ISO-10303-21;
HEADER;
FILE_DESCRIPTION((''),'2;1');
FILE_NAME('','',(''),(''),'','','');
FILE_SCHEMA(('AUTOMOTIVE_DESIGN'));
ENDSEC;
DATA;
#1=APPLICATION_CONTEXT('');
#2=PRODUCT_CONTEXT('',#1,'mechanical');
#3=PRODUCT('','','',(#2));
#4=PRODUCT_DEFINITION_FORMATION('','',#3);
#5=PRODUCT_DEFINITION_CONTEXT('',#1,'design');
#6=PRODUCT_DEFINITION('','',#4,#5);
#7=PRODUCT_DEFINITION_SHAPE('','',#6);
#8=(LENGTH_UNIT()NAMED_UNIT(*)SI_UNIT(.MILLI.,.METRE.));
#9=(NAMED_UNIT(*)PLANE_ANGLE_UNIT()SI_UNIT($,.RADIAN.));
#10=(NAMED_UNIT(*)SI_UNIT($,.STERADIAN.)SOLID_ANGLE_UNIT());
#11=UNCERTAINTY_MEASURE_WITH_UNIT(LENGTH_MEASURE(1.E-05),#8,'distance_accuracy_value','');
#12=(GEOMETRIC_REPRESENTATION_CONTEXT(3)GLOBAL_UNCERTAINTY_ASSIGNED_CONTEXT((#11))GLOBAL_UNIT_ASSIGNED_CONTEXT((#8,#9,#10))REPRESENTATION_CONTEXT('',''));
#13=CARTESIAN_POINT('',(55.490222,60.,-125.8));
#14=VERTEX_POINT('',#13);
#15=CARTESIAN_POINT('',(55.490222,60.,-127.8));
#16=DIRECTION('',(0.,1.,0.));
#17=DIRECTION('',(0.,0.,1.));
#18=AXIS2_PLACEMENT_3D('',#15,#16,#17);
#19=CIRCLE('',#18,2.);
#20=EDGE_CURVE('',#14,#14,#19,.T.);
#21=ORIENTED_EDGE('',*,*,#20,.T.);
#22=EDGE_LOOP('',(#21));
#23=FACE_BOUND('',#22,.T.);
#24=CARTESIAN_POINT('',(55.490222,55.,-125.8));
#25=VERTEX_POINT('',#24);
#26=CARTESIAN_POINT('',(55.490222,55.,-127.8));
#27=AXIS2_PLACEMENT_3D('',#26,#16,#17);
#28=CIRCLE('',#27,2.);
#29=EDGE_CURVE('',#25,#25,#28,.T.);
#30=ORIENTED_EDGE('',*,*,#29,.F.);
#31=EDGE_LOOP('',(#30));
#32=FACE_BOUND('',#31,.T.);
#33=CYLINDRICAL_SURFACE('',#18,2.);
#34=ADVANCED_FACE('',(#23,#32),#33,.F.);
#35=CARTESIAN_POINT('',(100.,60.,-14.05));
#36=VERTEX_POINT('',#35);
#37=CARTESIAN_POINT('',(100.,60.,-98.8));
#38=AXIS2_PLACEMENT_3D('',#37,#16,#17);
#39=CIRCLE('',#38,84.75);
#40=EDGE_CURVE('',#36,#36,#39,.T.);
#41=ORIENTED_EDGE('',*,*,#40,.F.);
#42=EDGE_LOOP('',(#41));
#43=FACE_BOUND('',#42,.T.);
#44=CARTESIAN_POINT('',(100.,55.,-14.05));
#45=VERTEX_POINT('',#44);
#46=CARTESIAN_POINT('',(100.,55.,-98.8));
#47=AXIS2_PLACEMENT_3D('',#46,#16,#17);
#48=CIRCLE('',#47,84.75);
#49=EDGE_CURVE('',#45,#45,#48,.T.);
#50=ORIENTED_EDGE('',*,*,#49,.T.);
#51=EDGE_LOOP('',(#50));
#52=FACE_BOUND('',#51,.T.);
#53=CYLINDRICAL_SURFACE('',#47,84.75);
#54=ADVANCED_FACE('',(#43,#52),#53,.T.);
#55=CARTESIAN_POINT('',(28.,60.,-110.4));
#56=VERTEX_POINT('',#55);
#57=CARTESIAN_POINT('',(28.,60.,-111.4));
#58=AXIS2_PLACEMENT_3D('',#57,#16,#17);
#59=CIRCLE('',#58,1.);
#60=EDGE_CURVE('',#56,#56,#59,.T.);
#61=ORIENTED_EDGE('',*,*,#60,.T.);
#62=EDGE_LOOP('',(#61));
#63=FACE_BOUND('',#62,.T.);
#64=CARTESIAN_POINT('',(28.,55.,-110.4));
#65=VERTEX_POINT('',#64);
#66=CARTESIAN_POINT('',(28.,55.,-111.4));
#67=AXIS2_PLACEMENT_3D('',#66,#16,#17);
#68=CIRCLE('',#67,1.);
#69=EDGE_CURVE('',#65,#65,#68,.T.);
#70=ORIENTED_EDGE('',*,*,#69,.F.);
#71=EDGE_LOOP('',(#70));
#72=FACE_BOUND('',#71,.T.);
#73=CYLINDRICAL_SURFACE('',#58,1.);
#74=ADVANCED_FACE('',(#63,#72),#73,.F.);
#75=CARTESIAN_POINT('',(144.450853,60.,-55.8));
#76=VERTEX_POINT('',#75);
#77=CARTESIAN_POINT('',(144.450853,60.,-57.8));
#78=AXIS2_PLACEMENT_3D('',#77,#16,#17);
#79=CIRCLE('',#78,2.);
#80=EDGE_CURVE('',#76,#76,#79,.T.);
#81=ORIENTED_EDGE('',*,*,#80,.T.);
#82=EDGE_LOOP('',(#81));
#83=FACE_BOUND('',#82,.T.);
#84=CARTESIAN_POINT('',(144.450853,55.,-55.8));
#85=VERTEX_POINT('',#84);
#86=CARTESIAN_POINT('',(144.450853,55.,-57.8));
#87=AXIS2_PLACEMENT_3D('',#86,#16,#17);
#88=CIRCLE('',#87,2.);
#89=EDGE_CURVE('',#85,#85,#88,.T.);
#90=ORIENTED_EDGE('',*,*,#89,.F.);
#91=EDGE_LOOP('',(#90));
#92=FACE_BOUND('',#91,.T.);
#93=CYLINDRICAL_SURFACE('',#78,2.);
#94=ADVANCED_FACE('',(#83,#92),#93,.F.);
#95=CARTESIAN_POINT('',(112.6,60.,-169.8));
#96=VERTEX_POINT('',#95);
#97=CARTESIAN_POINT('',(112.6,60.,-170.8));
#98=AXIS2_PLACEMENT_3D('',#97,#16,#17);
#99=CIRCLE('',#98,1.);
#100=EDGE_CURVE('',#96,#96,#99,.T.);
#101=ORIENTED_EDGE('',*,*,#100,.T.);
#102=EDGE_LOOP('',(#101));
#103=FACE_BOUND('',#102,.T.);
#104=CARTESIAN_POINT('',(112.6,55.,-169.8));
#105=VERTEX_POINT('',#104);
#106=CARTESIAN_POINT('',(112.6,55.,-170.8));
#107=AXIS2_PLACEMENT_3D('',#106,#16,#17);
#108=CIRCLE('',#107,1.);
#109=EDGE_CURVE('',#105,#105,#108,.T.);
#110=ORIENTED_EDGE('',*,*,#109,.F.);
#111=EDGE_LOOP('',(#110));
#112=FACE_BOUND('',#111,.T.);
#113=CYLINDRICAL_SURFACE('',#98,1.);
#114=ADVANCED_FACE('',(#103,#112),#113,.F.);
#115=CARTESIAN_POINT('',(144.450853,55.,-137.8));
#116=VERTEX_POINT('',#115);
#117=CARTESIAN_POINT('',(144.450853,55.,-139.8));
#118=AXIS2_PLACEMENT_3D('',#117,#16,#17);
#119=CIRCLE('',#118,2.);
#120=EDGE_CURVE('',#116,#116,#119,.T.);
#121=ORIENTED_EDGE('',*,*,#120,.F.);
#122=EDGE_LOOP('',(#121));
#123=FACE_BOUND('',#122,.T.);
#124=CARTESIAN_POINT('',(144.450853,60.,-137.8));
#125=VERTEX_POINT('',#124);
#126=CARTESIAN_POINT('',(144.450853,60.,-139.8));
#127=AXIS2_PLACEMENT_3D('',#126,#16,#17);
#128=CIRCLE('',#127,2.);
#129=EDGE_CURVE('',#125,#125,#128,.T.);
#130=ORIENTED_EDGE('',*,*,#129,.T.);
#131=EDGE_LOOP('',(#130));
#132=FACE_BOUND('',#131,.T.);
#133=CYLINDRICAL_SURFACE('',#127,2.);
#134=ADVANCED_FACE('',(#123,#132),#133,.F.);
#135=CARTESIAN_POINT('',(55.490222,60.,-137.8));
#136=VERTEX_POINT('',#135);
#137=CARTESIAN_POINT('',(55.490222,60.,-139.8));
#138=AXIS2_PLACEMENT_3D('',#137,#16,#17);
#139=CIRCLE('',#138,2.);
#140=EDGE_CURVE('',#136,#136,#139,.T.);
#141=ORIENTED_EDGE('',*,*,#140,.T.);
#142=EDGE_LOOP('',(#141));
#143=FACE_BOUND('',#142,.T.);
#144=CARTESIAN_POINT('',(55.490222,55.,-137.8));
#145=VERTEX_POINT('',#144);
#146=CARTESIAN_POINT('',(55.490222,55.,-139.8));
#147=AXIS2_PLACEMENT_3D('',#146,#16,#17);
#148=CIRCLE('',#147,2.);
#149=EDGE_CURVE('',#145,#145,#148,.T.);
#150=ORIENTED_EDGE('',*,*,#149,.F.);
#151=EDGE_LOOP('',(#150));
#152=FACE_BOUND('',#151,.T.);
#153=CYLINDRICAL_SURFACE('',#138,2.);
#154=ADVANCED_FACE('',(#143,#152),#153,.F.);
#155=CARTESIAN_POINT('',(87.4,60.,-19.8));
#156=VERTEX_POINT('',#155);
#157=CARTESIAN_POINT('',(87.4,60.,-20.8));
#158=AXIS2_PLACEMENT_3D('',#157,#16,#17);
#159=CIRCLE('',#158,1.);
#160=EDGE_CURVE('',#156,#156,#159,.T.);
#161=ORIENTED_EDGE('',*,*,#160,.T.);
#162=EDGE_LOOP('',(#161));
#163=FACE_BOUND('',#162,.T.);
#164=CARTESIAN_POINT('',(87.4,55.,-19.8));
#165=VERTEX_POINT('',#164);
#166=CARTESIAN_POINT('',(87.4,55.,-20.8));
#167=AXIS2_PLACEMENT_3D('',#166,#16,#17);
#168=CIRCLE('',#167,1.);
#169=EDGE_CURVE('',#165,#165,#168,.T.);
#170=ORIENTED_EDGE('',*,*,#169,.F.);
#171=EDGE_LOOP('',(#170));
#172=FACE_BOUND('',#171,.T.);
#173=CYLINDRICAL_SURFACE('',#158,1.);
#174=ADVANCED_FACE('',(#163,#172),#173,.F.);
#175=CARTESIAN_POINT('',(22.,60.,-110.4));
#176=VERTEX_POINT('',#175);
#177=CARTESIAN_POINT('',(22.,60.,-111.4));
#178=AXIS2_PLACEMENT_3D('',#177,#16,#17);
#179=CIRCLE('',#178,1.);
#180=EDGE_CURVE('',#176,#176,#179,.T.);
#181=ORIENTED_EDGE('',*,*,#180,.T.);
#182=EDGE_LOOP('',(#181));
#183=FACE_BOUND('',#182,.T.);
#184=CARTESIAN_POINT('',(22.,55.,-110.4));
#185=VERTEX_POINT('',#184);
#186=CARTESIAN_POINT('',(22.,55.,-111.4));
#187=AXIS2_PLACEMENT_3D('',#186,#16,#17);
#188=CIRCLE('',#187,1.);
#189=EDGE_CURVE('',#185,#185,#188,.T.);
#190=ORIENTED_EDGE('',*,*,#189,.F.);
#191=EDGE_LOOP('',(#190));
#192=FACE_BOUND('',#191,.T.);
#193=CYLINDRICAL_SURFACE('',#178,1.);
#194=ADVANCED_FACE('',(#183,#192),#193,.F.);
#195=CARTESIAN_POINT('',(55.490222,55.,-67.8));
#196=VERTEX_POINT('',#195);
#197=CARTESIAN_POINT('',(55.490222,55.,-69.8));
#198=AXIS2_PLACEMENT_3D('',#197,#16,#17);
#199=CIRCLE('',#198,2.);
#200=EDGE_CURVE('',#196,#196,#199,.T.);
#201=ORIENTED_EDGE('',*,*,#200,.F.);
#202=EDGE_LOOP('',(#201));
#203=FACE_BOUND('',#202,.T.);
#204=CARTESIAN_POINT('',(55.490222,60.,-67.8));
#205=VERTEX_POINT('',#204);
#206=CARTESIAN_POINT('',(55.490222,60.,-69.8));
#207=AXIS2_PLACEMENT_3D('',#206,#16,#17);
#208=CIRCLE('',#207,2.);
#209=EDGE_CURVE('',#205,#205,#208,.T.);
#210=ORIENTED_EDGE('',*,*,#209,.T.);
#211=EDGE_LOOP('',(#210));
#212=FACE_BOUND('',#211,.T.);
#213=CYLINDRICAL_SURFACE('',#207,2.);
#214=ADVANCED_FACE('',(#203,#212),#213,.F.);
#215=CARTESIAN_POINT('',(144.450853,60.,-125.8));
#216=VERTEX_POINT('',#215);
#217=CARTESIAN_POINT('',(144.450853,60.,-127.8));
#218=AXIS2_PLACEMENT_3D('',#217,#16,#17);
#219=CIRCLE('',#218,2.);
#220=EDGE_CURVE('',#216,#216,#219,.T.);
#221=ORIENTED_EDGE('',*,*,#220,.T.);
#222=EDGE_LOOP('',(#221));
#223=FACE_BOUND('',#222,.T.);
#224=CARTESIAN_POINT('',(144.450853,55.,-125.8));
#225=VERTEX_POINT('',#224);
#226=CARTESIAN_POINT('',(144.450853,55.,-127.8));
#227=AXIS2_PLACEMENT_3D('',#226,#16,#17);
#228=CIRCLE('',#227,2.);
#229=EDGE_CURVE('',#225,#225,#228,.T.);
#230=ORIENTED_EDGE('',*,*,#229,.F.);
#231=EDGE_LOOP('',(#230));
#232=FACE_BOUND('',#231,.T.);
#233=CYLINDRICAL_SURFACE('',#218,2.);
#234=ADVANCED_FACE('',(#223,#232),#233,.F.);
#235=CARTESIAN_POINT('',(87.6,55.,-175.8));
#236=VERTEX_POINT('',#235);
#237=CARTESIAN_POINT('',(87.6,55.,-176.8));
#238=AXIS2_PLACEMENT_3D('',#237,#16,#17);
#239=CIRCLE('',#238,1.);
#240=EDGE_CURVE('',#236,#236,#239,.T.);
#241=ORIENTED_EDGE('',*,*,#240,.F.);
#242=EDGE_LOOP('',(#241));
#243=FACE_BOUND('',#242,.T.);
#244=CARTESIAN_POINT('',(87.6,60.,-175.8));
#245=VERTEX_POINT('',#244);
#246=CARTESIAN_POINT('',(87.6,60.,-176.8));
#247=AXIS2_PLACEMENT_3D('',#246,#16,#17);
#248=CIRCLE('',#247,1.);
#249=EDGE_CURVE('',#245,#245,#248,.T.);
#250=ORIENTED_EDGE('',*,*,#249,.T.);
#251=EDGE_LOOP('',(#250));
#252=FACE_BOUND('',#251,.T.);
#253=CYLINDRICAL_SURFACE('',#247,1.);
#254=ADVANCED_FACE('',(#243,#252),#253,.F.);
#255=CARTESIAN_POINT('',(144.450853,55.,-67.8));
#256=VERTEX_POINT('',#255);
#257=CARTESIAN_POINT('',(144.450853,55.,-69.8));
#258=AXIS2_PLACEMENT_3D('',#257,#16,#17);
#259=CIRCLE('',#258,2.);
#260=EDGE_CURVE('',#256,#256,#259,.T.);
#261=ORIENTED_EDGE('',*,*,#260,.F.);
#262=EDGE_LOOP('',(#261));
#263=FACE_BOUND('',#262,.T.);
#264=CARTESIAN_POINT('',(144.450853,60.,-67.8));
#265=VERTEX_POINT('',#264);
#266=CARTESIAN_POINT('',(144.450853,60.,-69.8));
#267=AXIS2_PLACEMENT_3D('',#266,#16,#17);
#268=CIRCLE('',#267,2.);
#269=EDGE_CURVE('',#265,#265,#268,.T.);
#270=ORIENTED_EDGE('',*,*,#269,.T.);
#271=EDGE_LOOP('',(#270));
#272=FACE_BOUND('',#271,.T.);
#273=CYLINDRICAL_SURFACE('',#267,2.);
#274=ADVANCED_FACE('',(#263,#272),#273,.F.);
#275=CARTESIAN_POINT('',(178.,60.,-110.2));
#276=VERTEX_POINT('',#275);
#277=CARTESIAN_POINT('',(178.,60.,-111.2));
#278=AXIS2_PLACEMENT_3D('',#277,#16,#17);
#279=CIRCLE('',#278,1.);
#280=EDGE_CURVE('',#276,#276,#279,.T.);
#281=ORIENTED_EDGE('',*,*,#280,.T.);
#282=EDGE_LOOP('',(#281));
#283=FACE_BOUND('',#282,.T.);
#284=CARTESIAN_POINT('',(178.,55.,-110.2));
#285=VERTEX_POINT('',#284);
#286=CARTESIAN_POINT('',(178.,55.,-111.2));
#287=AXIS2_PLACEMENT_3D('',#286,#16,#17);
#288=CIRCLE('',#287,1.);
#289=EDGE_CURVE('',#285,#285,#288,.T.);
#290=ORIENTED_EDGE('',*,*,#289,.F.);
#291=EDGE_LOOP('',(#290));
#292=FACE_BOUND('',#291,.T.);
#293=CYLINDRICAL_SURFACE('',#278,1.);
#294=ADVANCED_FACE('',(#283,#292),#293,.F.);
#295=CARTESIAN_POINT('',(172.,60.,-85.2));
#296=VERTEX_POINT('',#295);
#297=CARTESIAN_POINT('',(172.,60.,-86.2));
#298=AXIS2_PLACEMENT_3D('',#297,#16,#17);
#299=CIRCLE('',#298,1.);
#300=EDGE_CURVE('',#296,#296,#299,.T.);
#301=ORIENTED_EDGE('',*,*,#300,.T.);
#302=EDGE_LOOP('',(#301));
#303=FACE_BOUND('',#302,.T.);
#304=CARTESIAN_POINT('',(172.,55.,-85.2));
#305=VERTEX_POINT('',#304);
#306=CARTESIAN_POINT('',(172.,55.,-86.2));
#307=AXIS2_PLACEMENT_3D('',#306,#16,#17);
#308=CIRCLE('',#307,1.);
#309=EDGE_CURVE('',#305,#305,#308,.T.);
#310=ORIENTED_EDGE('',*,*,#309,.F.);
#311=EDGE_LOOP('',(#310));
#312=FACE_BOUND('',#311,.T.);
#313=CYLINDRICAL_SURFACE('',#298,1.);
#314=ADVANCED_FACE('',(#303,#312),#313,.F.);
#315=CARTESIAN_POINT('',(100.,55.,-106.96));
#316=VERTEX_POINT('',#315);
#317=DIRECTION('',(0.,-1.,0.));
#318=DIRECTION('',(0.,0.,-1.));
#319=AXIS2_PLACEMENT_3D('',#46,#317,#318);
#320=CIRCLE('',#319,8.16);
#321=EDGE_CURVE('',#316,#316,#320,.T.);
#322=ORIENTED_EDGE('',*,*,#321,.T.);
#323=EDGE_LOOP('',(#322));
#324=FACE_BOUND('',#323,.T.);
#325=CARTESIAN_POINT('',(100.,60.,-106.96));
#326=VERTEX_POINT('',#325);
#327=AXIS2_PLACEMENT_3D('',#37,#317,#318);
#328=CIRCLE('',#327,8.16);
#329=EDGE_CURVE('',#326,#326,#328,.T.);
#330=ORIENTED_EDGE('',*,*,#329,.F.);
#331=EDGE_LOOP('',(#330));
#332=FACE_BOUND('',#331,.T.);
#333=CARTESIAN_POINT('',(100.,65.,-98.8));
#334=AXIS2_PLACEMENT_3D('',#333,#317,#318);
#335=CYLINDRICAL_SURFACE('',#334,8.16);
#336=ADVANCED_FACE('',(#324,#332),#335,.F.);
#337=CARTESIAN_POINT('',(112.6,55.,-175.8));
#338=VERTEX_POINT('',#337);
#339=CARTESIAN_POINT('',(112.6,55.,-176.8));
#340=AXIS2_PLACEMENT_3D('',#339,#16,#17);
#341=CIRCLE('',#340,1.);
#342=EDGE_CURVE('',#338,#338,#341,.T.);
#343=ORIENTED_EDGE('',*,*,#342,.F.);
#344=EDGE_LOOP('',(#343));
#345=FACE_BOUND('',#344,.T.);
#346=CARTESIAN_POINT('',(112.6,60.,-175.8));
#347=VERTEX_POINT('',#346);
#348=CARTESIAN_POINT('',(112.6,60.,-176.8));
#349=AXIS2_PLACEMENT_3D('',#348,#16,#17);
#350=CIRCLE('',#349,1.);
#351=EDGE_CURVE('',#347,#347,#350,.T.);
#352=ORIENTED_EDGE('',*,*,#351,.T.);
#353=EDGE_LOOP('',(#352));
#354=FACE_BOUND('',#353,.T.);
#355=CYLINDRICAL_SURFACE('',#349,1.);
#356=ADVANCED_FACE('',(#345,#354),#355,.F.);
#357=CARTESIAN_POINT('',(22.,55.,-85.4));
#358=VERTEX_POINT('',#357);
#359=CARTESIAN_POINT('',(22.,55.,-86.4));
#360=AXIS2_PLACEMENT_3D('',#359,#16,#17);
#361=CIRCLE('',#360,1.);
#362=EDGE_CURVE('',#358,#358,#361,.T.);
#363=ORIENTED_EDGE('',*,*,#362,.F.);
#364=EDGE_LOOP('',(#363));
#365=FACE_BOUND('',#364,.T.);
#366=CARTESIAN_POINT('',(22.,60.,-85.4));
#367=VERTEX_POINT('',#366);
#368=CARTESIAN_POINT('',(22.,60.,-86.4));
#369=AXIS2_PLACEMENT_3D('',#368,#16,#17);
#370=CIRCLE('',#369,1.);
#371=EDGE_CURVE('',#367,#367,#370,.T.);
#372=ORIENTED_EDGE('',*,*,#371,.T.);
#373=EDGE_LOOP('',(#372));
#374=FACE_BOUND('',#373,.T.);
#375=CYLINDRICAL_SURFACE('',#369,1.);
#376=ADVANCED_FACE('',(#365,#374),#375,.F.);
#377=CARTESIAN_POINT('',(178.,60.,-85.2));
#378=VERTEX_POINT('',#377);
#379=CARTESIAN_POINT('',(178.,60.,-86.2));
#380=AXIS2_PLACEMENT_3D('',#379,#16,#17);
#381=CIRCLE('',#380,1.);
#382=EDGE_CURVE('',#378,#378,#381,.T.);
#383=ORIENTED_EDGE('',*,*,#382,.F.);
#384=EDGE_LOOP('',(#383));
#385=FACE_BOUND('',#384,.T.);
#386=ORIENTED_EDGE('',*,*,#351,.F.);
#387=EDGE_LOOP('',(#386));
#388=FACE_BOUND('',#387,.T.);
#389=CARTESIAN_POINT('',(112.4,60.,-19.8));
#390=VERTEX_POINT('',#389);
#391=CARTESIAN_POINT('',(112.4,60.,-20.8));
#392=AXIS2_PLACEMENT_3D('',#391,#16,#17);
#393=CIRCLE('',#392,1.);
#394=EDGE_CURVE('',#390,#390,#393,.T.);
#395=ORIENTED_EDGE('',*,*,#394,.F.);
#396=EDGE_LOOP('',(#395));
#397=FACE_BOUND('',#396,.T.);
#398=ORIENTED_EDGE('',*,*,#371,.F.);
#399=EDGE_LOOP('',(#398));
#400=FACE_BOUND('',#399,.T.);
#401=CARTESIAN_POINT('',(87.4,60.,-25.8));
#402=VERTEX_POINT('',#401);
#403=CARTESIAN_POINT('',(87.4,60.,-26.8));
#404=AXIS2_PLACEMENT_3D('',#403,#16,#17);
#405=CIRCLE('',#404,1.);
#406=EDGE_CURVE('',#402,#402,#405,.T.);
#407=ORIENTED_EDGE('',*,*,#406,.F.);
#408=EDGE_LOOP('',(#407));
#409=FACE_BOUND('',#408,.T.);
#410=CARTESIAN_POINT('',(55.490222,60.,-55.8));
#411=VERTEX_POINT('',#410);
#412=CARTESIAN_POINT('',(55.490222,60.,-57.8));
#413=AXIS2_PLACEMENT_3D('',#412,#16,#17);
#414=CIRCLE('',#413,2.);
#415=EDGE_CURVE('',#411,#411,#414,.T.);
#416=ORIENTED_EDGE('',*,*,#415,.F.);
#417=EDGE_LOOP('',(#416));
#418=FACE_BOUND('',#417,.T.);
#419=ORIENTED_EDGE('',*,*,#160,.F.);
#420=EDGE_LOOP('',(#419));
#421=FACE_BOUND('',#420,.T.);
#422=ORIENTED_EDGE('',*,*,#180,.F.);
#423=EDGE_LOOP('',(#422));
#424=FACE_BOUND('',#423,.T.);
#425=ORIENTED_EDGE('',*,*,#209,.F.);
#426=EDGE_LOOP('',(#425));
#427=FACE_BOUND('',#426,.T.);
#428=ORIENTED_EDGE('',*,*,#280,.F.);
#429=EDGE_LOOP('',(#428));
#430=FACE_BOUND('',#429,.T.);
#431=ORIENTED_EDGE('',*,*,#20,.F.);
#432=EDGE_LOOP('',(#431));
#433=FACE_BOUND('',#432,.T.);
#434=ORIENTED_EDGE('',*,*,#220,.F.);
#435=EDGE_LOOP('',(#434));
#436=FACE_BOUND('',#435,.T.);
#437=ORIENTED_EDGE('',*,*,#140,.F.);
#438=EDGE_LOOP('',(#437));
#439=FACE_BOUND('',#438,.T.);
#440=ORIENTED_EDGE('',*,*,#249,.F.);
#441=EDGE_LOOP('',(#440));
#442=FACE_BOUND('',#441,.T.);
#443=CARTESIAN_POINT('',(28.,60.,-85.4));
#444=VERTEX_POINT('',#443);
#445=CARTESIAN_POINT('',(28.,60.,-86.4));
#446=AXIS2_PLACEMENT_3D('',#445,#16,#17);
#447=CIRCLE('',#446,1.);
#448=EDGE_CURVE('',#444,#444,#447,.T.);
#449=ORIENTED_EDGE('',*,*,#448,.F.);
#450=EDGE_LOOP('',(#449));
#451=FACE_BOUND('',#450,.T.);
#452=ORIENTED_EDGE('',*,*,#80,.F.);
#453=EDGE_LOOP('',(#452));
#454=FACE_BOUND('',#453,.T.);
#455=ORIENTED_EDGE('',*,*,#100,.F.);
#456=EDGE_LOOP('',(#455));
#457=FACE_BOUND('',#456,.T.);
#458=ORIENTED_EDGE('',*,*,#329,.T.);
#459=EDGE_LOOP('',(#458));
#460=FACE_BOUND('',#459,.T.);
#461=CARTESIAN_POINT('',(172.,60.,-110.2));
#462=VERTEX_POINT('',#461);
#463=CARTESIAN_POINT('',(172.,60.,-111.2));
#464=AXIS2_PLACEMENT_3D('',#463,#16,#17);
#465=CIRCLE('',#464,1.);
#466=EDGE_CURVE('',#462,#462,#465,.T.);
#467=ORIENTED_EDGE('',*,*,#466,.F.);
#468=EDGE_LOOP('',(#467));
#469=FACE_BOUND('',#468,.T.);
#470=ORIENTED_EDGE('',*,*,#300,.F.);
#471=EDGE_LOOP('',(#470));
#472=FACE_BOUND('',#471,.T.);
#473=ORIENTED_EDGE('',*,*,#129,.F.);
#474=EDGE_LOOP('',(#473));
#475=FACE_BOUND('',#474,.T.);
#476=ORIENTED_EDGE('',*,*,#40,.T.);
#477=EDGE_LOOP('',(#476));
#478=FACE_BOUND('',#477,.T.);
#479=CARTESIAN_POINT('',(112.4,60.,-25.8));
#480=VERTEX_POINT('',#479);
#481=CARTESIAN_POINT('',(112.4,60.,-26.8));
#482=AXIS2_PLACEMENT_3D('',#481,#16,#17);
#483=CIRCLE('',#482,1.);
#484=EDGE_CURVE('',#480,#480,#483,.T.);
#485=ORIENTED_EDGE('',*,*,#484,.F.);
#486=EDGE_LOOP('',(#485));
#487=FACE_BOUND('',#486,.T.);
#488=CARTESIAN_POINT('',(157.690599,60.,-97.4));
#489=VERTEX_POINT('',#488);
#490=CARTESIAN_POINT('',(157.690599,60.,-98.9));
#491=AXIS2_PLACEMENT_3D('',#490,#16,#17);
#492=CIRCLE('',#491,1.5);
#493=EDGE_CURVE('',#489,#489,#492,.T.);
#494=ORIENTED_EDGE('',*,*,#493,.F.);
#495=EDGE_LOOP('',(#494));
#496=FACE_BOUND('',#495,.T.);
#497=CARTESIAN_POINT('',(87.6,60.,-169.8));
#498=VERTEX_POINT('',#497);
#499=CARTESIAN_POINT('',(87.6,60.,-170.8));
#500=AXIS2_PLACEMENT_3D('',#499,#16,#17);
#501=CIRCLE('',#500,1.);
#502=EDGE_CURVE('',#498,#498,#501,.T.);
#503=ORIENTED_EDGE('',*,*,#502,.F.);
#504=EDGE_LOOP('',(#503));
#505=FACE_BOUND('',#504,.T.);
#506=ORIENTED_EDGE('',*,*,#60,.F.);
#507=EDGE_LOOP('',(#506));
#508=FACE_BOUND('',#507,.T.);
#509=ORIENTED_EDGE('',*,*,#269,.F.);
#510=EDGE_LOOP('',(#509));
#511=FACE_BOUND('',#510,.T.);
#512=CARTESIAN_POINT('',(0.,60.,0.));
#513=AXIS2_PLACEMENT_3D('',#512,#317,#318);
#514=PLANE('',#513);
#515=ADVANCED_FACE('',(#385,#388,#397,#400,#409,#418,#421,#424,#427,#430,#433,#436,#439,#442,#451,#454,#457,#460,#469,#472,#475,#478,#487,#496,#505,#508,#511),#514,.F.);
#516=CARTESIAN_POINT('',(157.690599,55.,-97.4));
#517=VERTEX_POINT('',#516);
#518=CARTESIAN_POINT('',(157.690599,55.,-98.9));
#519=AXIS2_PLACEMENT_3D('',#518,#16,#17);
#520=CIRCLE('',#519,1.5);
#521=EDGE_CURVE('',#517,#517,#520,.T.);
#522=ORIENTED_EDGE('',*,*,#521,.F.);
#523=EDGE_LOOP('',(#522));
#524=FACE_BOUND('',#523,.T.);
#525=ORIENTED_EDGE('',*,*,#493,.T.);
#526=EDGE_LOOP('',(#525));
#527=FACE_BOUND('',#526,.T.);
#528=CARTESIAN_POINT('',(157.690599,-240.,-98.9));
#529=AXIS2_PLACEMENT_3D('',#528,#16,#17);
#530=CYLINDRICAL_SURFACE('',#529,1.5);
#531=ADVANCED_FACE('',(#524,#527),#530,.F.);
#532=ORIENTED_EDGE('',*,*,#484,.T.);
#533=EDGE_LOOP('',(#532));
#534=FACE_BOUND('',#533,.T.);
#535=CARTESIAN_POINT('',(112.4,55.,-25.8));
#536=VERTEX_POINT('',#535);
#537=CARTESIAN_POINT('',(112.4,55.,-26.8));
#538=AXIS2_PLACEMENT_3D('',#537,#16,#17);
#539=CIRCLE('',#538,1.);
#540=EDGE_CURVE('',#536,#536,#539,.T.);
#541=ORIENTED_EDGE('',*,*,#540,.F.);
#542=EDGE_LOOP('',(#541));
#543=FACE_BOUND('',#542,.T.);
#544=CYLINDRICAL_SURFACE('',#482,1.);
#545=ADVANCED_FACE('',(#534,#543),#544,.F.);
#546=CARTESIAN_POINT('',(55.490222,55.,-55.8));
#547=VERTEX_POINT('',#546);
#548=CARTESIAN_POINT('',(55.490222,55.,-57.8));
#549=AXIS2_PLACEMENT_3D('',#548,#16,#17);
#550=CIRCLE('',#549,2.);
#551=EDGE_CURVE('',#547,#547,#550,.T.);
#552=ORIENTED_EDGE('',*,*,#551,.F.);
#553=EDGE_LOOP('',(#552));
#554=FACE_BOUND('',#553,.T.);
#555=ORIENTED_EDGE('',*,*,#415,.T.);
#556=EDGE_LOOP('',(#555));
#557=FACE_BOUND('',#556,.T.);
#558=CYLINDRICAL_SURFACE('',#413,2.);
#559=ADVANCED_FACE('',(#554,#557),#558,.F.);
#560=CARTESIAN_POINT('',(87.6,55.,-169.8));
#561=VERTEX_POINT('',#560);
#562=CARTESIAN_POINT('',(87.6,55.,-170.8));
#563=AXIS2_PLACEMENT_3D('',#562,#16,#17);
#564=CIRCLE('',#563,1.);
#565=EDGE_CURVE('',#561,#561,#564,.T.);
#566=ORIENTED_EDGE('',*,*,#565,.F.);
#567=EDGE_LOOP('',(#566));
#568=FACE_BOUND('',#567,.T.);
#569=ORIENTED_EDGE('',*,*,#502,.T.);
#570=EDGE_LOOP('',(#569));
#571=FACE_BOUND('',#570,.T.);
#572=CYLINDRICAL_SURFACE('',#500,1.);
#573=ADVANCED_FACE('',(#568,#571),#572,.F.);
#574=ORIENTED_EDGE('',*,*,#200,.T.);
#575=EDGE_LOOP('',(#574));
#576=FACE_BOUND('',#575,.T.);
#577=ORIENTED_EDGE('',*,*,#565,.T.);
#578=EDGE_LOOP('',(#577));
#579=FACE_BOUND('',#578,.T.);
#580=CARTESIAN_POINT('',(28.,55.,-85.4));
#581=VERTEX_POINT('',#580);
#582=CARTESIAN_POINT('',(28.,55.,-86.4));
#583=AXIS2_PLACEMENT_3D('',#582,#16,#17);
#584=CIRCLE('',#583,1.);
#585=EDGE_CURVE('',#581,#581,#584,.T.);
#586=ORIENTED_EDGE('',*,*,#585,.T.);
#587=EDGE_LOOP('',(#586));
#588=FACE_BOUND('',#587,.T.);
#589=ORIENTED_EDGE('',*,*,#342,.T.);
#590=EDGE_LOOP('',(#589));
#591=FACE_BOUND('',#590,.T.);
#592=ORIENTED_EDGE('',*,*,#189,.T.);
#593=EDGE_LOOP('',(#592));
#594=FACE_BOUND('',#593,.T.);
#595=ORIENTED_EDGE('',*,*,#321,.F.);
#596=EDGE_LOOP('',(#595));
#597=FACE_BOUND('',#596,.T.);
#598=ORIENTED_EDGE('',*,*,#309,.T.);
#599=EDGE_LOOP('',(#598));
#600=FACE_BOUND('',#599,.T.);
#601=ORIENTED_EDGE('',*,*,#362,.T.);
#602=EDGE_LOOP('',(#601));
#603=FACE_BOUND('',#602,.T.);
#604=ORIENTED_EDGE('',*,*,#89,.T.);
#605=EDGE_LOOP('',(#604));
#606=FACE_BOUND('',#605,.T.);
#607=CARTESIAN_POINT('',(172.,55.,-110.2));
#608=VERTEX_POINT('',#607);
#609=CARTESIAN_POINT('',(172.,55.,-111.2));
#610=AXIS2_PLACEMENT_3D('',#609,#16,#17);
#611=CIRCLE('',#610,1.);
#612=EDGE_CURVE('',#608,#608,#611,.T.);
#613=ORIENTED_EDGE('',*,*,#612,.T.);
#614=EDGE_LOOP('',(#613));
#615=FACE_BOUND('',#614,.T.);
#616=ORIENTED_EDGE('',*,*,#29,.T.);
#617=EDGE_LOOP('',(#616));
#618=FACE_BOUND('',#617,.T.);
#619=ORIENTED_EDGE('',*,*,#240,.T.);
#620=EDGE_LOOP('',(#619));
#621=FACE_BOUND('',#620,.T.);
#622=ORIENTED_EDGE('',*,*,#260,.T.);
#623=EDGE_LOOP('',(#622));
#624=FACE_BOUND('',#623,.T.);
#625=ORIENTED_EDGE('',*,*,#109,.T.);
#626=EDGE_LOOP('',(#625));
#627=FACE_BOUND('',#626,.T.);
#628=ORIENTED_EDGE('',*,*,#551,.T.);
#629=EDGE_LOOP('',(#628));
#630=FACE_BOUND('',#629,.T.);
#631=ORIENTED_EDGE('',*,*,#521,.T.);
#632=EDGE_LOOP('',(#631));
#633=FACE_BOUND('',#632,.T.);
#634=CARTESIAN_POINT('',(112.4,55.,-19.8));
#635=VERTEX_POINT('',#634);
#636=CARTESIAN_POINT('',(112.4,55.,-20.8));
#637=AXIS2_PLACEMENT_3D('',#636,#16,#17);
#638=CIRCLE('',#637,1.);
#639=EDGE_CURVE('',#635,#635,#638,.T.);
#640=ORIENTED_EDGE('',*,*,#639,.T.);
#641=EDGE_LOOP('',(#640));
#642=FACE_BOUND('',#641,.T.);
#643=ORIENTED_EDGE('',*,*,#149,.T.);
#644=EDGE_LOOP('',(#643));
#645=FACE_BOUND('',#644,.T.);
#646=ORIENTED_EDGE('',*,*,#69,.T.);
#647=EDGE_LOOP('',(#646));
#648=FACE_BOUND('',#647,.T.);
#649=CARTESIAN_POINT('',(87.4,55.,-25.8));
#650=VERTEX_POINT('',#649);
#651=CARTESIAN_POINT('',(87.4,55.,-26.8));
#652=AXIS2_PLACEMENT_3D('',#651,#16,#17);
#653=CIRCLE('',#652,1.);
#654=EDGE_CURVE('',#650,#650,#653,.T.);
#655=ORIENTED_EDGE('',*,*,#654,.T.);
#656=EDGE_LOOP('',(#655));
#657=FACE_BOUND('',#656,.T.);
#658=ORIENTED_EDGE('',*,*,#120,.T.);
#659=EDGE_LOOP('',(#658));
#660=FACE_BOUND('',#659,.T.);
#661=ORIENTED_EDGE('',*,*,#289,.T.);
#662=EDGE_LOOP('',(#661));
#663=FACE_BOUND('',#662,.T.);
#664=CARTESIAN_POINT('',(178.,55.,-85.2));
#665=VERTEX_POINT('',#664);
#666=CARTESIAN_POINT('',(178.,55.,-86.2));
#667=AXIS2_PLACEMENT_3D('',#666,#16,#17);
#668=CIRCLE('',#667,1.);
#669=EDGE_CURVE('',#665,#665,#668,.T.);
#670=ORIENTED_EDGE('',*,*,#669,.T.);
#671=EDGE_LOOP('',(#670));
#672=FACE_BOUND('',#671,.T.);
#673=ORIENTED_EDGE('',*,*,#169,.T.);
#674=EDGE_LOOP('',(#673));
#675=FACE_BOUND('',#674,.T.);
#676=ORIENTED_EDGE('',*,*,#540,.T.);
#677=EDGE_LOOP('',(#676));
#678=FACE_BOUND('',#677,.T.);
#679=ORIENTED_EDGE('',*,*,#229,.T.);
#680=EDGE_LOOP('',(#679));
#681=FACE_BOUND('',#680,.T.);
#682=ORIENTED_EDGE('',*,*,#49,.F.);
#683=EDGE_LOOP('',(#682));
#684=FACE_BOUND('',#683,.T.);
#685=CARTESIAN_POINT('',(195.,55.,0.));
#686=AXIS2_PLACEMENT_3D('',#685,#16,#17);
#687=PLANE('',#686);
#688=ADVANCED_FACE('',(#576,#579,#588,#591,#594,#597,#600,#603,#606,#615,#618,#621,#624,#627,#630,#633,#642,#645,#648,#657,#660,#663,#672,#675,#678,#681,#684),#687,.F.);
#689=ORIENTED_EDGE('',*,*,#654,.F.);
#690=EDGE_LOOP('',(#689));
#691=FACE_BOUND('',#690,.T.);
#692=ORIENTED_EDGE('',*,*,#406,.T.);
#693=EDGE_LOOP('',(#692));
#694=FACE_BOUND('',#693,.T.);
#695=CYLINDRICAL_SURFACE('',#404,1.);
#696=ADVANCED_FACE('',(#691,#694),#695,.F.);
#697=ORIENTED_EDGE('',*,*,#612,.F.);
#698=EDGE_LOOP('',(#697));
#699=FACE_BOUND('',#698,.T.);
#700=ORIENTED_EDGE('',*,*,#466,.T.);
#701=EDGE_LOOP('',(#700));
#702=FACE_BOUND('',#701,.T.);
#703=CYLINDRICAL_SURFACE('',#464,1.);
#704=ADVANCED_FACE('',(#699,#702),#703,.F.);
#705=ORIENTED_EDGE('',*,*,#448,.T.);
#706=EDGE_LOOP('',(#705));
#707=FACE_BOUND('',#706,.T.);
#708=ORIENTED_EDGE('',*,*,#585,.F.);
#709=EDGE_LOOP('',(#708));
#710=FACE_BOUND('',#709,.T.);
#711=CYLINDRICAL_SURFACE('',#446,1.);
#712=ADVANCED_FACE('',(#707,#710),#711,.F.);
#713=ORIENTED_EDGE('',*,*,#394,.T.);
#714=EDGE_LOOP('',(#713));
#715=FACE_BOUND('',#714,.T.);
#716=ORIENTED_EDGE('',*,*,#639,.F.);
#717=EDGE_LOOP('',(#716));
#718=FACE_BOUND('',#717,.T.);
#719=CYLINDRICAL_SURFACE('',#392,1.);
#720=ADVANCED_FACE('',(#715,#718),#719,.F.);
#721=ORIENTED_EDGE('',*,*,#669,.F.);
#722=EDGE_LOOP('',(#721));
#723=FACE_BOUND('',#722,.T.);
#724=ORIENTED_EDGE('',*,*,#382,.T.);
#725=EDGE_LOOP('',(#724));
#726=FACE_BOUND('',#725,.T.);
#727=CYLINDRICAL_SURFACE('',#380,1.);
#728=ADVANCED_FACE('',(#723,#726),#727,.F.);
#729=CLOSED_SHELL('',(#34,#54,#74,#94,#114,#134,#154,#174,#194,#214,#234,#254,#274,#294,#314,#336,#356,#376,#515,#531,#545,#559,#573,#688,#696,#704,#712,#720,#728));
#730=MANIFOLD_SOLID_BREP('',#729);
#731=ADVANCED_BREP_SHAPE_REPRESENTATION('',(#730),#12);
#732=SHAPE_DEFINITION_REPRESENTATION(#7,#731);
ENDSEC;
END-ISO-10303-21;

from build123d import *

# Parameters (mm, degrees)
SKETCH2_W                = 200
SKETCH2_H                = 200
BOSS_EXTRUDE2_DEPTH      = 60
BOSS_EXTRUDE3_START      = -38
BOSS_EXTRUDE3_DEPTH      = 41
SKETCH5_W                = 180
SKETCH5_H                = 180
CUT_EXTRUDE2_DEPTH       = 50
BOSS_EXTRUDE4_START      = -81.2
BOSS_EXTRUDE4_DEPTH      = 30
CUT_EXTRUDE3_DEPTH       = 35
CUT_EXTRUDE4_DEPTH       = 10
CUT_EXTRUDE6_START       = -26
CUT_EXTRUDE6_DEPTH       = 26
SKETCH11_W               = 120
SKETCH11_H               = 10
CUT_EXTRUDE7_DEPTH       = 26
SKETCH12_W               = 180
SKETCH12_H               = 50
CUT_EXTRUDE8_DEPTH       = 200
SKETCH13_W               = 180
SKETCH13_H               = 50
CUT_EXTRUDE9_DEPTH       = 200
SKETCH15_W               = 19.8
SKETCH15_H               = 40.6
CUT_EXTRUDE11_DEPTH      = 10
BOSS_EXTRUDE5_DEPTH      = 26
SKETCH20_W               = 19.8
SKETCH20_H               = 7
CUT_EXTRUDE14_DEPTH      = 8.2
SKETCH22_W               = 22
SKETCH22_H               = 68.38628635
SKETCH22_W_2             = 33
SKETCH22_H_2             = 70.357034464
CUT_EXTRUDE16_DEPTH      = 6
CUT_EXTRUDE17_DEPTH      = 150
SKETCH24_W               = 190
SKETCH24_H               = 55
CUT_EXTRUDE18_DEPTH      = 200
SKETCH41_W               = 200
SKETCH41_H               = 200
SKETCH41_W_2             = 115.381197846
SKETCH41_H_2             = 110.8
CUT_EXTRUDE25_DEPTH      = 100
CUT_EXTRUDE26_DEPTH      = 26
SKETCH43_R               = 85
BOSS_EXTRUDE9_DEPTH      = 5
CUT_EXTRUDE27_DEPTH      = 11
BOSS_EXTRUDE10_DEPTH     = 4
BOSS_EXTRUDE11_DEPTH     = 24
BOSS_EXTRUDE12_DEPTH     = 26
BOSS_EXTRUDE14_DEPTH     = 4
CUT_EXTRUDE29_DEPTH      = 18
CUT_EXTRUDE30_DEPTH      = 2
CUT_EXTRUDE31_DEPTH      = 2
SKETCH55_W               = 19.8
SKETCH55_H               = 2.410200662
BOSS_EXTRUDE16_DEPTH     = 4
SKETCH56_W               = 22
SKETCH56_H               = 70.356823689
CUT_EXTRUDE32_DEPTH      = 4
BOSS_EXTRUDE17_DEPTH     = 26
BOSS_EXTRUDE18_DEPTH     = 26
BOSS_EXTRUDE19_START     = 170
BOSS_EXTRUDE19_DEPTH     = 10
SKETCH60_R               = 2.45
BOSS_EXTRUDE20_DEPTH     = 9
FILLET1_R                = 0.3
CUT_EXTRUDE33_START      = -1
SKETCH61_R               = 2.45
SKETCH61_R_2             = 2.375
CUT_EXTRUDE33_DEPTH      = 5.2
FILLET2_R                = 2
BOSS_EXTRUDE21_START     = 140
BOSS_EXTRUDE21_DEPTH     = 10
SKETCH63_R               = 2.45
BOSS_EXTRUDE22_DEPTH     = 9
FILLET3_R                = 0.3
FILLET4_R                = 2
CUT_EXTRUDE34_START      = -1
SKETCH64_R               = 2.45
SKETCH64_R_2             = 2.375
CUT_EXTRUDE34_DEPTH      = 5.2
SKETCH67_R               = 95.168377016
SKETCH67_R_2             = 84.75
CUT_EXTRUDE36_DEPTH      = 5
SKETCH75_R               = 1.5
CUT_EXTRUDE38_DEPTH      = 300
CUT_EXTRUDE39_DEPTH      = 300
CUT_EXTRUDE39_DEPTH_BACK = 300
SKETCH73_W               = 180.242022847
SKETCH73_H               = 88.826117309
SKETCH73_W_2             = 185.11228995
SKETCH73_H_2             = 25.843302944
SKETCH76_R               = 8.16
CUT_EXTRUDE40_DEPTH      = 10
F_2_0MM_DOWEL_HOLE4_D    = 2
F_4_0MM_DOWEL_HOLE1_D    = 4


with BuildPart() as part:
    # Sketch2 → Boss-Extrude2 (new body)
    with BuildSketch(Plane(origin=(0, 0, 0), x_dir=(1, 0, 0), z_dir=(0, 1, 0))):
        with Locations((100, 100)):
            Rectangle(SKETCH2_W, SKETCH2_H)
    extrude(amount=BOSS_EXTRUDE2_DEPTH)

    # Sketch3 → Boss-Extrude3 (add)
    with BuildSketch(Plane.XY.offset(BOSS_EXTRUDE3_START)):
        with BuildLine():
            Line((40, 60), (80.980762114, 130.980762114))
            ThreePointArc((80.980762114, 130.980762114), (100, 141.961524227), (119.019237886, 130.980762114))
            Line((119.019237886, 130.980762114), (160, 60))
            Line((160, 60), (40, 60))
        make_face()
    extrude(amount=-BOSS_EXTRUDE3_DEPTH)

    # Sketch5 → Cut-Extrude2 (cut)
    with BuildSketch(Plane.XZ):
        with Locations((100, -100)):
            Rectangle(SKETCH5_W, SKETCH5_H)
    extrude(amount=-CUT_EXTRUDE2_DEPTH, mode=Mode.SUBTRACT)

    # Sketch7 → Boss-Extrude4 (add)
    with BuildSketch(Plane(origin=(0, 0, -200), x_dir=(-1, 0, 0), z_dir=(0, 0, -1)).offset(BOSS_EXTRUDE4_START)):
        with BuildLine():
            Line((-160, 60), (-40, 60))
            Line((-40, 60), (-80.980762114, 130.980762114))
            ThreePointArc((-80.980762114, 130.980762114), (-100, 141.961524227), (-119.019237886, 130.980762114))
            Line((-119.019237886, 130.980762114), (-160, 60))
        make_face()
    extrude(amount=BOSS_EXTRUDE4_DEPTH)

    # Sketch8 → Cut-Extrude3 (cut)
    with BuildSketch(Plane.XY.offset(-38)):
        with BuildLine():
            Line((48.660254038, 65), (151.339745962, 65))
            Line((151.339745962, 65), (114.689110868, 128.480762114))
            ThreePointArc((114.689110868, 128.480762114), (100, 136.961524227), (85.310889132, 128.480762114))
            Line((85.310889132, 128.480762114), (48.660254038, 65))
        make_face()
    extrude(amount=-CUT_EXTRUDE3_DEPTH, mode=Mode.SUBTRACT)

    # Sketch9 → Cut-Extrude4 (cut)
    with BuildSketch(Plane.XY.offset(-118.8)):
        with BuildLine():
            Line((95, 141.384773704), (95, 105))
            ThreePointArc((95, 105), (100, 100), (105, 105))
            Line((105, 105), (105, 141.384773704))
            ThreePointArc((105, 141.384773704), (100, 141.961524227), (95, 141.384773704))
        make_face()
    extrude(amount=-CUT_EXTRUDE4_DEPTH, mode=Mode.SUBTRACT)

    # Sketch10 → Cut-Extrude6 (cut)
    with BuildSketch(Plane(origin=(0, 0, -148.8), x_dir=(-1, 0, 0), z_dir=(0, 0, -1)).offset(CUT_EXTRUDE6_START)):
        with BuildLine():
            Line((-114.689110868, 128.480762114), (-151.339745962, 65))
            Line((-151.339745962, 65), (-48.660254038, 65))
            Line((-48.660254038, 65), (-85.310889132, 128.480762114))
            ThreePointArc((-85.310889132, 128.480762114), (-87.382612213, 131.335555987), (-90, 133.700120587))
            Line((-90, 133.700120587), (-90, 105))
            ThreePointArc((-90, 105), (-100, 95), (-110, 105))
            Line((-110, 105), (-110, 133.700120587))
            ThreePointArc((-110, 133.700120587), (-112.617387787, 131.335555987), (-114.689110868, 128.480762114))
        make_face()
    extrude(amount=CUT_EXTRUDE6_DEPTH, mode=Mode.SUBTRACT)

    # Sketch11 → Cut-Extrude7 (cut)
    with BuildSketch(Plane(origin=(0, 60, 0), x_dir=(1, 0, 0), z_dir=(0, 1, 0))):
        with Locations((100, 113.8)):
            Rectangle(SKETCH11_W, SKETCH11_H)
    extrude(amount=-CUT_EXTRUDE7_DEPTH, mode=Mode.SUBTRACT)

    # Sketch12 → Cut-Extrude8 (cut)
    with BuildSketch(Plane(origin=(200, 0, 0), x_dir=(0, 0, -1), z_dir=(1, 0, 0))):
        with Locations((100, 25)):
            Rectangle(SKETCH12_W, SKETCH12_H)
    extrude(amount=-CUT_EXTRUDE8_DEPTH, mode=Mode.SUBTRACT)

    # Sketch13 → Cut-Extrude9 (cut)
    with BuildSketch(Plane.XY):
        with Locations((100, 25)):
            Rectangle(SKETCH13_W, SKETCH13_H)
    extrude(amount=-CUT_EXTRUDE9_DEPTH, mode=Mode.SUBTRACT)

    # Sketch15 → Cut-Extrude11 (cut)
    with BuildSketch(Plane.XY.offset(-73)):
        with Locations((100, 94.7)):
            Rectangle(SKETCH15_W, SKETCH15_H)
    extrude(amount=-CUT_EXTRUDE11_DEPTH, mode=Mode.SUBTRACT)

    # Sketch16 → Boss-Extrude5 (add)
    with BuildSketch(Plane.XY.offset(-73)):
        Polygon((88.1, 115), (88.1, 72.4), (111.9, 72.4), (111.9, 115), (109.9, 115), (109.9, 74.4), (90.1, 74.4), (90.1, 115), align=None)
    extrude(amount=BOSS_EXTRUDE5_DEPTH)

    # Sketch20 → Cut-Extrude14 (cut)
    with BuildSketch(Plane(origin=(0, 0, -79), x_dir=(-1, 0, 0), z_dir=(0, 0, -1))):
        with Locations((-100, 118.5)):
            Rectangle(SKETCH20_W, SKETCH20_H)
        with Locations((-100, 70.9)):
            Rectangle(SKETCH20_W, SKETCH20_H)
    extrude(amount=-CUT_EXTRUDE14_DEPTH, mode=Mode.SUBTRACT)

    # Sketch22 → Cut-Extrude16 (cut)
    with BuildSketch(Plane(origin=(4.019237886, -2.320508076, 0), x_dir=(0, 0, 1), z_dir=(-0.8660254037844397, 0.49999999999999806, 0))):
        with Locations((-133.8, 115.729905279)):
            Rectangle(SKETCH22_W, SKETCH22_H)
        with Locations((-58.5, 116.744531222)):
            Rectangle(SKETCH22_W_2, SKETCH22_H_2)
    extrude(amount=-CUT_EXTRUDE16_DEPTH, mode=Mode.SUBTRACT)

    # Sketch23 → Cut-Extrude17 (cut)
    with BuildSketch(Plane.XY.offset(-38)):
        with BuildLine():
            Line((43.464101615, 62), (42.309401077, 60))
            Line((42.309401077, 60), (36.951802896, 60))
            Line((36.951802896, 60), (100, 183.688158135))
            Line((100, 183.688158135), (162.604774917, 60))
            Line((162.604774917, 60), (157.690598923, 60))
            Line((157.690598923, 60), (156.535898385, 62))
            Line((156.535898385, 62), (117.287187079, 129.980762114))
            ThreePointArc((117.287187079, 129.980762114), (100, 139.961524227), (82.712812921, 129.980762114))
            Line((82.712812921, 129.980762114), (43.464101615, 62))
        make_face()
    extrude(amount=-CUT_EXTRUDE17_DEPTH, mode=Mode.SUBTRACT)

    # Sketch24 → Cut-Extrude18 (cut)
    with BuildSketch(Plane(origin=(0, 0, -200), x_dir=(-1, 0, 0), z_dir=(0, 0, -1))):
        with Locations((-100, 27.5)):
            Rectangle(SKETCH24_W, SKETCH24_H)
    extrude(amount=-CUT_EXTRUDE18_DEPTH, mode=Mode.SUBTRACT)

    # Sketch41 → Cut-Extrude25 (cut)
    with BuildSketch(Plane(origin=(0, 60, 0), x_dir=(1, 0, 0), z_dir=(0, 1, 0))):
        with Locations((100, 100)):
            Rectangle(SKETCH41_W, SKETCH41_H)
        with Locations((100, 93.4)):
            Rectangle(SKETCH41_W_2, SKETCH41_H_2, mode=Mode.SUBTRACT)
    extrude(amount=-CUT_EXTRUDE25_DEPTH, mode=Mode.SUBTRACT)


with BuildPart() as cut_extrude25_piece_1:
    # of the separate pieces the step leaves, piece 1, a body of its own (cut_extrude25_pieces)
    add(part.part.solids().sort_by_distance((42.309401077, 55, -108.8))[0])



with BuildPart() as cut_extrude25_piece_2:
    # of the separate pieces the step leaves, piece 2, a body of its own (cut_extrude25_pieces)
    add(part.part.solids().sort_by_distance((42.309401077, 55, -118.8))[0])

    # Sketch38 → Cut-Extrude26 (cut)
    with BuildSketch(Plane(origin=(0, 0, -148.8), x_dir=(-1, 0, 0), z_dir=(0, 0, -1))):
        with BuildLine():
            Line((-110, 133.700120587), (-107, 135.763853262))
            Line((-107, 135.763853262), (-107, 105))
            ThreePointArc((-107, 105), (-100, 98), (-93, 105))
            Line((-93, 105), (-93, 135.763853262))
            Line((-93, 135.763853262), (-90, 133.700120587))
            Line((-90, 133.700120587), (-90, 105))
            ThreePointArc((-90, 105), (-100, 95), (-110, 105))
            Line((-110, 105), (-110, 133.700120587))
        make_face()
    extrude(amount=-CUT_EXTRUDE26_DEPTH, mode=Mode.SUBTRACT)


with BuildPart() as cut_extrude25_piece_1_1:
    add(cut_extrude25_piece_1.part)

    add(cut_extrude25_piece_2.part)  # Boss-Extrude9 merges Cut-Extrude25 piece 2
    # Sketch43 → Boss-Extrude9 (add)
    with BuildSketch(Plane.XZ.offset(-55)):
        with Locations((100, -98.8)):
            Circle(SKETCH43_R)
    extrude(amount=-BOSS_EXTRUDE9_DEPTH)

    # Sketch45 → Cut-Extrude27 (cut)
    with BuildSketch(Plane.XY.offset(-38)):
        with BuildLine():
            Line((42.309401077, 60), (82.712812921, 129.980762114))
            ThreePointArc((82.712812921, 129.980762114), (100, 139.961524227), (117.287187079, 129.980762114))
            Line((117.287187079, 129.980762114), (157.690598923, 60))
            Line((157.690598923, 60), (42.309401077, 60))
        make_face()
        with BuildLine():
            Line((151.339745962, 65), (114.689110868, 128.480762114))
            ThreePointArc((114.689110868, 128.480762114), (100, 136.961524227), (85.310889132, 128.480762114))
            Line((85.310889132, 128.480762114), (48.660254038, 65))
            Line((48.660254038, 65), (151.339745962, 65))
        make_face(mode=Mode.SUBTRACT)
    extrude(amount=-CUT_EXTRUDE27_DEPTH, mode=Mode.SUBTRACT)

    # Sketch46 → Boss-Extrude10 (add)
    with BuildSketch(Plane.XY.offset(-49)):
        Polygon((81.712812921, 128.248711306), (46.534295689, 67.317732125), (49.094273419, 65.839728294), (84.272790651, 126.770707475), align=None)
    extrude(amount=-BOSS_EXTRUDE10_DEPTH)

    # Sketch47 → Boss-Extrude11 (add)
    with BuildSketch(Plane.XY.offset(-73)):
        Polygon((49.1323719, 65.817732125), (50.548725488, 65), (48.660254038, 65), align=None)
    extrude(amount=BOSS_EXTRUDE11_DEPTH)

    # Sketch48 → Boss-Extrude12 (add)
    with BuildSketch(Plane(origin=(0, 0, -122.8), x_dir=(-1, 0, 0), z_dir=(0, 0, -1))):
        Polygon((-49.117745958, 65.792399249), (-50.490221717, 65), (-48.660254038, 65), align=None)
    extrude(amount=BOSS_EXTRUDE12_DEPTH)

    # Sketch49 → Boss-Extrude14 (add)
    with BuildSketch(Plane.XY.offset(-75)):
        Polygon((49.998397304, 65.317732125), (49.094273419, 65.839728294), (84.272790651, 126.770707475), (85.176914536, 126.248711306), align=None)
    extrude(amount=BOSS_EXTRUDE14_DEPTH)

    # Sketch52 → Cut-Extrude29 (cut)
    with BuildSketch(Plane(origin=(0, 0, -148.8), x_dir=(-1, 0, 0), z_dir=(0, 0, -1))):
        with BuildLine():
            Line((-93, 135.763853262), (-93, 105))
            ThreePointArc((-93, 105), (-100, 98), (-107, 105))
            Line((-107, 105), (-107, 135.763853262))
            ThreePointArc((-107, 135.763853262), (-100, 137.248161341), (-93, 135.763853262))
        make_face()
    extrude(amount=-CUT_EXTRUDE29_DEPTH, mode=Mode.SUBTRACT)

    # Sketch53 → Cut-Extrude30 (cut)
    with BuildSketch(Plane.XY.offset(-71)):
        Polygon((85.176914536, 126.248711306), (84.272790651, 126.770707475), (49.090707581, 65.833552081), (49.994831466, 65.311555913), align=None)
    extrude(amount=-CUT_EXTRUDE30_DEPTH, mode=Mode.SUBTRACT)

    # Sketch54 → Cut-Extrude31 (cut)
    with BuildSketch(Plane.XY.offset(-73)):
        with BuildLine():
            Line((50.548725488, 65), (151.339745962, 65))
            Line((151.339745962, 65), (114.689110868, 128.480762114))
            ThreePointArc((114.689110868, 128.480762114), (100, 136.961524227), (85.310889132, 128.480762114))
            Line((85.310889132, 128.480762114), (84.310889132, 126.748711306))
            Line((84.310889132, 126.748711306), (84.272790651, 126.770707475))
            Line((84.272790651, 126.770707475), (49.094273419, 65.839728294))
            Line((49.094273419, 65.839728294), (49.090707581, 65.833552081))
            Line((49.090707581, 65.833552081), (49.994831466, 65.311555913))
            Line((49.994831466, 65.311555913), (49.998397304, 65.317732125))
            Line((49.998397304, 65.317732125), (50.548725488, 65))
        make_face()
        Polygon((109.9, 67.4), (90.1, 67.4), (90.1, 72.4), (88.1, 72.4), (88.1, 115), (90.1, 115), (90.1, 122), (109.9, 122), (109.9, 115), (111.9, 115), (111.9, 72.4), (109.9, 72.4), align=None, mode=Mode.SUBTRACT)
    extrude(amount=-CUT_EXTRUDE31_DEPTH, mode=Mode.SUBTRACT)

    # Sketch55 → Boss-Extrude16 (add)
    with BuildSketch(Plane.XY.offset(-75)):
        with Locations((100, 66.194899669)):
            Rectangle(SKETCH55_W, SKETCH55_H)
    extrude(amount=BOSS_EXTRUDE16_DEPTH)

    # Sketch56 → Cut-Extrude32 (cut)
    with BuildSketch(Plane(origin=(144.248711306, 83.282032303, 0), x_dir=(0, 0, -1), z_dir=(0.8660254037844362, 0.5000000000000044, 0))):
        with Locations((64, 16.744636609)):
            Rectangle(SKETCH56_W, SKETCH56_H)
        with Locations((133.8, 16.744636609)):
            Rectangle(SKETCH56_W, SKETCH56_H)
    extrude(amount=-CUT_EXTRUDE32_DEPTH, mode=Mode.SUBTRACT)

    # Sketch57 → Boss-Extrude17 (add)
    with BuildSketch(Plane.XY.offset(-75)):
        Polygon((150.867522712, 65.817914662), (149.450852961, 65), (151.339745962, 65), align=None)
    extrude(amount=BOSS_EXTRUDE17_DEPTH)

    # Sketch58 → Boss-Extrude18 (add)
    with BuildSketch(Plane(origin=(0, 0, -122.8), x_dir=(-1, 0, 0), z_dir=(0, 0, -1))):
        Polygon((-150.867522712, 65.817914662), (-151.339745962, 65), (-149.450852961, 65), align=None)
    extrude(amount=BOSS_EXTRUDE18_DEPTH)

    # Sketch59 → Boss-Extrude19 (add)
    with BuildSketch(Plane(origin=(0, 0, 0), x_dir=(0, 0, -1), z_dir=(1, 0, 0)).offset(BOSS_EXTRUDE19_START)):
        with BuildLine():
            Line((81.4, 60), (94.15, 72.75))
            ThreePointArc((94.15, 72.75), (98.9, 74.717514421), (103.65, 72.75))
            Line((103.65, 72.75), (116.4, 60))
            Line((116.4, 60), (81.4, 60))
        make_face()
        with BuildLine():
            Line((81.4, 55), (116.4, 55))
            Line((116.4, 55), (103.65, 42.25))
            ThreePointArc((103.65, 42.25), (98.9, 40.282485579), (94.15, 42.25))
            Line((94.15, 42.25), (81.4, 55))
        make_face()
    extrude(amount=BOSS_EXTRUDE19_DEPTH)

    # Sketch60 → Boss-Extrude20 (add)
    with BuildSketch(Plane(origin=(180, 0, 0), x_dir=(0, 0, -1), z_dir=(1, 0, 0))):
        with Locations((98.9, 70)):
            Circle(SKETCH60_R)
        with Locations((98.9, 45)):
            Circle(SKETCH60_R)
    extrude(amount=BOSS_EXTRUDE20_DEPTH)

    # Fillet1
    fillet1_edges = [cut_extrude25_piece_1_1.edges().sort_by_distance(p)[0] for p in [
        (189, 70, -96.45),
        (189, 45, -96.45),
    ]]
    fillet(fillet1_edges, radius=FILLET1_R)

    # Sketch61 → Cut-Extrude33 (cut)
    # profile 1 of 2: a face of its own
    with BuildSketch(Plane(origin=(189, 0, 0), x_dir=(0, 0, -1), z_dir=(1, 0, 0)).offset(CUT_EXTRUDE33_START)):
        with Locations((98.9, 70)):
            Circle(SKETCH61_R)
        with Locations((98.9, 70)):
            Circle(SKETCH61_R_2, mode=Mode.SUBTRACT)
    # profile 2 of 2: a face of its own
    with BuildSketch(Plane(origin=(189, 0, 0), x_dir=(0, 0, -1), z_dir=(1, 0, 0)).offset(CUT_EXTRUDE33_START)):
        with Locations((98.9, 45)):
            Circle(SKETCH61_R)
        with Locations((98.9, 45)):
            Circle(SKETCH61_R_2, mode=Mode.SUBTRACT)
    extrude(amount=-CUT_EXTRUDE33_DEPTH, mode=Mode.SUBTRACT)

    # Fillet2
    fillet2_edges = [cut_extrude25_piece_1_1.edges().sort_by_distance(p)[0] for p in [
        (180, 70, -96.45),
        (180, 45, -96.45),
    ]]
    fillet(fillet2_edges, radius=FILLET2_R)

    # Sketch62 → Boss-Extrude21 (add)
    with BuildSketch(Plane.ZY.offset(-170).offset(BOSS_EXTRUDE21_START)):
        with BuildLine():
            Line((-81.4, 55), (-94.15, 42.25))
            ThreePointArc((-94.15, 42.25), (-98.9, 40.282485579), (-103.65, 42.25))
            Line((-103.65, 42.25), (-116.4, 55))
            Line((-116.4, 55), (-81.4, 55))
        make_face()
    extrude(amount=BOSS_EXTRUDE21_DEPTH)

    # Sketch63 → Boss-Extrude22 (add)
    with BuildSketch(Plane.ZY.offset(-20)):
        with Locations((-98.9, 45)):
            Circle(SKETCH63_R)
    extrude(amount=BOSS_EXTRUDE22_DEPTH)

    # Fillet3
    fillet3_edges = [cut_extrude25_piece_1_1.edges().sort_by_distance(p)[0] for p in [
        (11, 45, -101.35),
    ]]
    fillet(fillet3_edges, radius=FILLET3_R)

    # Fillet4
    fillet4_edges = [cut_extrude25_piece_1_1.edges().sort_by_distance(p)[0] for p in [
        (20, 45, -101.35),
    ]]
    fillet(fillet4_edges, radius=FILLET4_R)

    # Sketch64 → Cut-Extrude34 (cut)
    with BuildSketch(Plane.ZY.offset(-11).offset(CUT_EXTRUDE34_START)):
        with Locations((-98.9, 45)):
            Circle(SKETCH64_R)
        with Locations((-98.9, 45)):
            Circle(SKETCH64_R_2, mode=Mode.SUBTRACT)
    extrude(amount=-CUT_EXTRUDE34_DEPTH, mode=Mode.SUBTRACT)

    # Sketch67 → Cut-Extrude36 (cut)
    with BuildSketch(Plane(origin=(0, 60, 0), x_dir=(1, 0, 0), z_dir=(0, 1, 0))):
        with Locations((100, 98.8)):
            Circle(SKETCH67_R)
        with Locations((100, 98.8)):
            Circle(SKETCH67_R_2, mode=Mode.SUBTRACT)
    extrude(amount=-CUT_EXTRUDE36_DEPTH, mode=Mode.SUBTRACT)

    # Sketch75 → Cut-Extrude38 (cut)
    with BuildSketch(Plane(origin=(0, 60, 0), x_dir=(1, 0, 0), z_dir=(0, 1, 0))):
        with Locations((157.690598923, 98.9)):
            Circle(SKETCH75_R)
    extrude(amount=-CUT_EXTRUDE38_DEPTH, mode=Mode.SUBTRACT)

    # Sketch73 → Cut-Extrude39 (cut, two sides: drawn at the far end of the back side and taken through both)
    with BuildSketch(Plane(origin=(180, 0, 0), x_dir=(0, 0, -1), z_dir=(1, 0, 0)).offset(-CUT_EXTRUDE39_DEPTH_BACK)):
        with Locations((104.171011424, 104.413058655)):
            Rectangle(SKETCH73_W, SKETCH73_H)
        with Locations((106.606144975, 42.078348528)):
            Rectangle(SKETCH73_W_2, SKETCH73_H_2)
    extrude(amount=CUT_EXTRUDE39_DEPTH + CUT_EXTRUDE39_DEPTH_BACK, mode=Mode.SUBTRACT)

    # Sketch76 → Cut-Extrude40 (cut)
    with BuildSketch(Plane.XZ.offset(-55)):
        with Locations((100, -98.8)):
            Circle(SKETCH76_R)
    extrude(amount=-CUT_EXTRUDE40_DEPTH, mode=Mode.SUBTRACT)

    # Ø2.0mm Dowel Hole4 (through all)
    with Locations(Plane(origin=(28, 60, -111.4), x_dir=(0, 0, 1), z_dir=(0, 1, 0))):
        with Locations((0, 0), (0, -6), (25, 0), (25, -6), (84.6, 59.4), (90.6, 59.4), (90.6, 84.4), (84.6, 84.4), (25.2, 144), (25.2, 150), (0.2, 144), (0.2, 150), (-59.4, 59.6), (-59.4, 84.6), (-65.4, 59.6), (-65.4, 84.6)):
            Hole(F_2_0MM_DOWEL_HOLE4_D / 2)

    # Ø4.0mm Dowel Hole1 (through all)
    with Locations(Plane(origin=(55.490221717, 60, -69.8), x_dir=(0, 0, 1), z_dir=(0, 1, 0))):
        with Locations((0, 0), (12, 0), (12, 88.960631244), (0, 88.960631244), (-58, 0), (-70, 0), (-70, 88.960631244), (-58, 88.960631244)):
            Hole(F_4_0MM_DOWEL_HOLE1_D / 2)


solid = cut_extrude25_piece_1_1.part
